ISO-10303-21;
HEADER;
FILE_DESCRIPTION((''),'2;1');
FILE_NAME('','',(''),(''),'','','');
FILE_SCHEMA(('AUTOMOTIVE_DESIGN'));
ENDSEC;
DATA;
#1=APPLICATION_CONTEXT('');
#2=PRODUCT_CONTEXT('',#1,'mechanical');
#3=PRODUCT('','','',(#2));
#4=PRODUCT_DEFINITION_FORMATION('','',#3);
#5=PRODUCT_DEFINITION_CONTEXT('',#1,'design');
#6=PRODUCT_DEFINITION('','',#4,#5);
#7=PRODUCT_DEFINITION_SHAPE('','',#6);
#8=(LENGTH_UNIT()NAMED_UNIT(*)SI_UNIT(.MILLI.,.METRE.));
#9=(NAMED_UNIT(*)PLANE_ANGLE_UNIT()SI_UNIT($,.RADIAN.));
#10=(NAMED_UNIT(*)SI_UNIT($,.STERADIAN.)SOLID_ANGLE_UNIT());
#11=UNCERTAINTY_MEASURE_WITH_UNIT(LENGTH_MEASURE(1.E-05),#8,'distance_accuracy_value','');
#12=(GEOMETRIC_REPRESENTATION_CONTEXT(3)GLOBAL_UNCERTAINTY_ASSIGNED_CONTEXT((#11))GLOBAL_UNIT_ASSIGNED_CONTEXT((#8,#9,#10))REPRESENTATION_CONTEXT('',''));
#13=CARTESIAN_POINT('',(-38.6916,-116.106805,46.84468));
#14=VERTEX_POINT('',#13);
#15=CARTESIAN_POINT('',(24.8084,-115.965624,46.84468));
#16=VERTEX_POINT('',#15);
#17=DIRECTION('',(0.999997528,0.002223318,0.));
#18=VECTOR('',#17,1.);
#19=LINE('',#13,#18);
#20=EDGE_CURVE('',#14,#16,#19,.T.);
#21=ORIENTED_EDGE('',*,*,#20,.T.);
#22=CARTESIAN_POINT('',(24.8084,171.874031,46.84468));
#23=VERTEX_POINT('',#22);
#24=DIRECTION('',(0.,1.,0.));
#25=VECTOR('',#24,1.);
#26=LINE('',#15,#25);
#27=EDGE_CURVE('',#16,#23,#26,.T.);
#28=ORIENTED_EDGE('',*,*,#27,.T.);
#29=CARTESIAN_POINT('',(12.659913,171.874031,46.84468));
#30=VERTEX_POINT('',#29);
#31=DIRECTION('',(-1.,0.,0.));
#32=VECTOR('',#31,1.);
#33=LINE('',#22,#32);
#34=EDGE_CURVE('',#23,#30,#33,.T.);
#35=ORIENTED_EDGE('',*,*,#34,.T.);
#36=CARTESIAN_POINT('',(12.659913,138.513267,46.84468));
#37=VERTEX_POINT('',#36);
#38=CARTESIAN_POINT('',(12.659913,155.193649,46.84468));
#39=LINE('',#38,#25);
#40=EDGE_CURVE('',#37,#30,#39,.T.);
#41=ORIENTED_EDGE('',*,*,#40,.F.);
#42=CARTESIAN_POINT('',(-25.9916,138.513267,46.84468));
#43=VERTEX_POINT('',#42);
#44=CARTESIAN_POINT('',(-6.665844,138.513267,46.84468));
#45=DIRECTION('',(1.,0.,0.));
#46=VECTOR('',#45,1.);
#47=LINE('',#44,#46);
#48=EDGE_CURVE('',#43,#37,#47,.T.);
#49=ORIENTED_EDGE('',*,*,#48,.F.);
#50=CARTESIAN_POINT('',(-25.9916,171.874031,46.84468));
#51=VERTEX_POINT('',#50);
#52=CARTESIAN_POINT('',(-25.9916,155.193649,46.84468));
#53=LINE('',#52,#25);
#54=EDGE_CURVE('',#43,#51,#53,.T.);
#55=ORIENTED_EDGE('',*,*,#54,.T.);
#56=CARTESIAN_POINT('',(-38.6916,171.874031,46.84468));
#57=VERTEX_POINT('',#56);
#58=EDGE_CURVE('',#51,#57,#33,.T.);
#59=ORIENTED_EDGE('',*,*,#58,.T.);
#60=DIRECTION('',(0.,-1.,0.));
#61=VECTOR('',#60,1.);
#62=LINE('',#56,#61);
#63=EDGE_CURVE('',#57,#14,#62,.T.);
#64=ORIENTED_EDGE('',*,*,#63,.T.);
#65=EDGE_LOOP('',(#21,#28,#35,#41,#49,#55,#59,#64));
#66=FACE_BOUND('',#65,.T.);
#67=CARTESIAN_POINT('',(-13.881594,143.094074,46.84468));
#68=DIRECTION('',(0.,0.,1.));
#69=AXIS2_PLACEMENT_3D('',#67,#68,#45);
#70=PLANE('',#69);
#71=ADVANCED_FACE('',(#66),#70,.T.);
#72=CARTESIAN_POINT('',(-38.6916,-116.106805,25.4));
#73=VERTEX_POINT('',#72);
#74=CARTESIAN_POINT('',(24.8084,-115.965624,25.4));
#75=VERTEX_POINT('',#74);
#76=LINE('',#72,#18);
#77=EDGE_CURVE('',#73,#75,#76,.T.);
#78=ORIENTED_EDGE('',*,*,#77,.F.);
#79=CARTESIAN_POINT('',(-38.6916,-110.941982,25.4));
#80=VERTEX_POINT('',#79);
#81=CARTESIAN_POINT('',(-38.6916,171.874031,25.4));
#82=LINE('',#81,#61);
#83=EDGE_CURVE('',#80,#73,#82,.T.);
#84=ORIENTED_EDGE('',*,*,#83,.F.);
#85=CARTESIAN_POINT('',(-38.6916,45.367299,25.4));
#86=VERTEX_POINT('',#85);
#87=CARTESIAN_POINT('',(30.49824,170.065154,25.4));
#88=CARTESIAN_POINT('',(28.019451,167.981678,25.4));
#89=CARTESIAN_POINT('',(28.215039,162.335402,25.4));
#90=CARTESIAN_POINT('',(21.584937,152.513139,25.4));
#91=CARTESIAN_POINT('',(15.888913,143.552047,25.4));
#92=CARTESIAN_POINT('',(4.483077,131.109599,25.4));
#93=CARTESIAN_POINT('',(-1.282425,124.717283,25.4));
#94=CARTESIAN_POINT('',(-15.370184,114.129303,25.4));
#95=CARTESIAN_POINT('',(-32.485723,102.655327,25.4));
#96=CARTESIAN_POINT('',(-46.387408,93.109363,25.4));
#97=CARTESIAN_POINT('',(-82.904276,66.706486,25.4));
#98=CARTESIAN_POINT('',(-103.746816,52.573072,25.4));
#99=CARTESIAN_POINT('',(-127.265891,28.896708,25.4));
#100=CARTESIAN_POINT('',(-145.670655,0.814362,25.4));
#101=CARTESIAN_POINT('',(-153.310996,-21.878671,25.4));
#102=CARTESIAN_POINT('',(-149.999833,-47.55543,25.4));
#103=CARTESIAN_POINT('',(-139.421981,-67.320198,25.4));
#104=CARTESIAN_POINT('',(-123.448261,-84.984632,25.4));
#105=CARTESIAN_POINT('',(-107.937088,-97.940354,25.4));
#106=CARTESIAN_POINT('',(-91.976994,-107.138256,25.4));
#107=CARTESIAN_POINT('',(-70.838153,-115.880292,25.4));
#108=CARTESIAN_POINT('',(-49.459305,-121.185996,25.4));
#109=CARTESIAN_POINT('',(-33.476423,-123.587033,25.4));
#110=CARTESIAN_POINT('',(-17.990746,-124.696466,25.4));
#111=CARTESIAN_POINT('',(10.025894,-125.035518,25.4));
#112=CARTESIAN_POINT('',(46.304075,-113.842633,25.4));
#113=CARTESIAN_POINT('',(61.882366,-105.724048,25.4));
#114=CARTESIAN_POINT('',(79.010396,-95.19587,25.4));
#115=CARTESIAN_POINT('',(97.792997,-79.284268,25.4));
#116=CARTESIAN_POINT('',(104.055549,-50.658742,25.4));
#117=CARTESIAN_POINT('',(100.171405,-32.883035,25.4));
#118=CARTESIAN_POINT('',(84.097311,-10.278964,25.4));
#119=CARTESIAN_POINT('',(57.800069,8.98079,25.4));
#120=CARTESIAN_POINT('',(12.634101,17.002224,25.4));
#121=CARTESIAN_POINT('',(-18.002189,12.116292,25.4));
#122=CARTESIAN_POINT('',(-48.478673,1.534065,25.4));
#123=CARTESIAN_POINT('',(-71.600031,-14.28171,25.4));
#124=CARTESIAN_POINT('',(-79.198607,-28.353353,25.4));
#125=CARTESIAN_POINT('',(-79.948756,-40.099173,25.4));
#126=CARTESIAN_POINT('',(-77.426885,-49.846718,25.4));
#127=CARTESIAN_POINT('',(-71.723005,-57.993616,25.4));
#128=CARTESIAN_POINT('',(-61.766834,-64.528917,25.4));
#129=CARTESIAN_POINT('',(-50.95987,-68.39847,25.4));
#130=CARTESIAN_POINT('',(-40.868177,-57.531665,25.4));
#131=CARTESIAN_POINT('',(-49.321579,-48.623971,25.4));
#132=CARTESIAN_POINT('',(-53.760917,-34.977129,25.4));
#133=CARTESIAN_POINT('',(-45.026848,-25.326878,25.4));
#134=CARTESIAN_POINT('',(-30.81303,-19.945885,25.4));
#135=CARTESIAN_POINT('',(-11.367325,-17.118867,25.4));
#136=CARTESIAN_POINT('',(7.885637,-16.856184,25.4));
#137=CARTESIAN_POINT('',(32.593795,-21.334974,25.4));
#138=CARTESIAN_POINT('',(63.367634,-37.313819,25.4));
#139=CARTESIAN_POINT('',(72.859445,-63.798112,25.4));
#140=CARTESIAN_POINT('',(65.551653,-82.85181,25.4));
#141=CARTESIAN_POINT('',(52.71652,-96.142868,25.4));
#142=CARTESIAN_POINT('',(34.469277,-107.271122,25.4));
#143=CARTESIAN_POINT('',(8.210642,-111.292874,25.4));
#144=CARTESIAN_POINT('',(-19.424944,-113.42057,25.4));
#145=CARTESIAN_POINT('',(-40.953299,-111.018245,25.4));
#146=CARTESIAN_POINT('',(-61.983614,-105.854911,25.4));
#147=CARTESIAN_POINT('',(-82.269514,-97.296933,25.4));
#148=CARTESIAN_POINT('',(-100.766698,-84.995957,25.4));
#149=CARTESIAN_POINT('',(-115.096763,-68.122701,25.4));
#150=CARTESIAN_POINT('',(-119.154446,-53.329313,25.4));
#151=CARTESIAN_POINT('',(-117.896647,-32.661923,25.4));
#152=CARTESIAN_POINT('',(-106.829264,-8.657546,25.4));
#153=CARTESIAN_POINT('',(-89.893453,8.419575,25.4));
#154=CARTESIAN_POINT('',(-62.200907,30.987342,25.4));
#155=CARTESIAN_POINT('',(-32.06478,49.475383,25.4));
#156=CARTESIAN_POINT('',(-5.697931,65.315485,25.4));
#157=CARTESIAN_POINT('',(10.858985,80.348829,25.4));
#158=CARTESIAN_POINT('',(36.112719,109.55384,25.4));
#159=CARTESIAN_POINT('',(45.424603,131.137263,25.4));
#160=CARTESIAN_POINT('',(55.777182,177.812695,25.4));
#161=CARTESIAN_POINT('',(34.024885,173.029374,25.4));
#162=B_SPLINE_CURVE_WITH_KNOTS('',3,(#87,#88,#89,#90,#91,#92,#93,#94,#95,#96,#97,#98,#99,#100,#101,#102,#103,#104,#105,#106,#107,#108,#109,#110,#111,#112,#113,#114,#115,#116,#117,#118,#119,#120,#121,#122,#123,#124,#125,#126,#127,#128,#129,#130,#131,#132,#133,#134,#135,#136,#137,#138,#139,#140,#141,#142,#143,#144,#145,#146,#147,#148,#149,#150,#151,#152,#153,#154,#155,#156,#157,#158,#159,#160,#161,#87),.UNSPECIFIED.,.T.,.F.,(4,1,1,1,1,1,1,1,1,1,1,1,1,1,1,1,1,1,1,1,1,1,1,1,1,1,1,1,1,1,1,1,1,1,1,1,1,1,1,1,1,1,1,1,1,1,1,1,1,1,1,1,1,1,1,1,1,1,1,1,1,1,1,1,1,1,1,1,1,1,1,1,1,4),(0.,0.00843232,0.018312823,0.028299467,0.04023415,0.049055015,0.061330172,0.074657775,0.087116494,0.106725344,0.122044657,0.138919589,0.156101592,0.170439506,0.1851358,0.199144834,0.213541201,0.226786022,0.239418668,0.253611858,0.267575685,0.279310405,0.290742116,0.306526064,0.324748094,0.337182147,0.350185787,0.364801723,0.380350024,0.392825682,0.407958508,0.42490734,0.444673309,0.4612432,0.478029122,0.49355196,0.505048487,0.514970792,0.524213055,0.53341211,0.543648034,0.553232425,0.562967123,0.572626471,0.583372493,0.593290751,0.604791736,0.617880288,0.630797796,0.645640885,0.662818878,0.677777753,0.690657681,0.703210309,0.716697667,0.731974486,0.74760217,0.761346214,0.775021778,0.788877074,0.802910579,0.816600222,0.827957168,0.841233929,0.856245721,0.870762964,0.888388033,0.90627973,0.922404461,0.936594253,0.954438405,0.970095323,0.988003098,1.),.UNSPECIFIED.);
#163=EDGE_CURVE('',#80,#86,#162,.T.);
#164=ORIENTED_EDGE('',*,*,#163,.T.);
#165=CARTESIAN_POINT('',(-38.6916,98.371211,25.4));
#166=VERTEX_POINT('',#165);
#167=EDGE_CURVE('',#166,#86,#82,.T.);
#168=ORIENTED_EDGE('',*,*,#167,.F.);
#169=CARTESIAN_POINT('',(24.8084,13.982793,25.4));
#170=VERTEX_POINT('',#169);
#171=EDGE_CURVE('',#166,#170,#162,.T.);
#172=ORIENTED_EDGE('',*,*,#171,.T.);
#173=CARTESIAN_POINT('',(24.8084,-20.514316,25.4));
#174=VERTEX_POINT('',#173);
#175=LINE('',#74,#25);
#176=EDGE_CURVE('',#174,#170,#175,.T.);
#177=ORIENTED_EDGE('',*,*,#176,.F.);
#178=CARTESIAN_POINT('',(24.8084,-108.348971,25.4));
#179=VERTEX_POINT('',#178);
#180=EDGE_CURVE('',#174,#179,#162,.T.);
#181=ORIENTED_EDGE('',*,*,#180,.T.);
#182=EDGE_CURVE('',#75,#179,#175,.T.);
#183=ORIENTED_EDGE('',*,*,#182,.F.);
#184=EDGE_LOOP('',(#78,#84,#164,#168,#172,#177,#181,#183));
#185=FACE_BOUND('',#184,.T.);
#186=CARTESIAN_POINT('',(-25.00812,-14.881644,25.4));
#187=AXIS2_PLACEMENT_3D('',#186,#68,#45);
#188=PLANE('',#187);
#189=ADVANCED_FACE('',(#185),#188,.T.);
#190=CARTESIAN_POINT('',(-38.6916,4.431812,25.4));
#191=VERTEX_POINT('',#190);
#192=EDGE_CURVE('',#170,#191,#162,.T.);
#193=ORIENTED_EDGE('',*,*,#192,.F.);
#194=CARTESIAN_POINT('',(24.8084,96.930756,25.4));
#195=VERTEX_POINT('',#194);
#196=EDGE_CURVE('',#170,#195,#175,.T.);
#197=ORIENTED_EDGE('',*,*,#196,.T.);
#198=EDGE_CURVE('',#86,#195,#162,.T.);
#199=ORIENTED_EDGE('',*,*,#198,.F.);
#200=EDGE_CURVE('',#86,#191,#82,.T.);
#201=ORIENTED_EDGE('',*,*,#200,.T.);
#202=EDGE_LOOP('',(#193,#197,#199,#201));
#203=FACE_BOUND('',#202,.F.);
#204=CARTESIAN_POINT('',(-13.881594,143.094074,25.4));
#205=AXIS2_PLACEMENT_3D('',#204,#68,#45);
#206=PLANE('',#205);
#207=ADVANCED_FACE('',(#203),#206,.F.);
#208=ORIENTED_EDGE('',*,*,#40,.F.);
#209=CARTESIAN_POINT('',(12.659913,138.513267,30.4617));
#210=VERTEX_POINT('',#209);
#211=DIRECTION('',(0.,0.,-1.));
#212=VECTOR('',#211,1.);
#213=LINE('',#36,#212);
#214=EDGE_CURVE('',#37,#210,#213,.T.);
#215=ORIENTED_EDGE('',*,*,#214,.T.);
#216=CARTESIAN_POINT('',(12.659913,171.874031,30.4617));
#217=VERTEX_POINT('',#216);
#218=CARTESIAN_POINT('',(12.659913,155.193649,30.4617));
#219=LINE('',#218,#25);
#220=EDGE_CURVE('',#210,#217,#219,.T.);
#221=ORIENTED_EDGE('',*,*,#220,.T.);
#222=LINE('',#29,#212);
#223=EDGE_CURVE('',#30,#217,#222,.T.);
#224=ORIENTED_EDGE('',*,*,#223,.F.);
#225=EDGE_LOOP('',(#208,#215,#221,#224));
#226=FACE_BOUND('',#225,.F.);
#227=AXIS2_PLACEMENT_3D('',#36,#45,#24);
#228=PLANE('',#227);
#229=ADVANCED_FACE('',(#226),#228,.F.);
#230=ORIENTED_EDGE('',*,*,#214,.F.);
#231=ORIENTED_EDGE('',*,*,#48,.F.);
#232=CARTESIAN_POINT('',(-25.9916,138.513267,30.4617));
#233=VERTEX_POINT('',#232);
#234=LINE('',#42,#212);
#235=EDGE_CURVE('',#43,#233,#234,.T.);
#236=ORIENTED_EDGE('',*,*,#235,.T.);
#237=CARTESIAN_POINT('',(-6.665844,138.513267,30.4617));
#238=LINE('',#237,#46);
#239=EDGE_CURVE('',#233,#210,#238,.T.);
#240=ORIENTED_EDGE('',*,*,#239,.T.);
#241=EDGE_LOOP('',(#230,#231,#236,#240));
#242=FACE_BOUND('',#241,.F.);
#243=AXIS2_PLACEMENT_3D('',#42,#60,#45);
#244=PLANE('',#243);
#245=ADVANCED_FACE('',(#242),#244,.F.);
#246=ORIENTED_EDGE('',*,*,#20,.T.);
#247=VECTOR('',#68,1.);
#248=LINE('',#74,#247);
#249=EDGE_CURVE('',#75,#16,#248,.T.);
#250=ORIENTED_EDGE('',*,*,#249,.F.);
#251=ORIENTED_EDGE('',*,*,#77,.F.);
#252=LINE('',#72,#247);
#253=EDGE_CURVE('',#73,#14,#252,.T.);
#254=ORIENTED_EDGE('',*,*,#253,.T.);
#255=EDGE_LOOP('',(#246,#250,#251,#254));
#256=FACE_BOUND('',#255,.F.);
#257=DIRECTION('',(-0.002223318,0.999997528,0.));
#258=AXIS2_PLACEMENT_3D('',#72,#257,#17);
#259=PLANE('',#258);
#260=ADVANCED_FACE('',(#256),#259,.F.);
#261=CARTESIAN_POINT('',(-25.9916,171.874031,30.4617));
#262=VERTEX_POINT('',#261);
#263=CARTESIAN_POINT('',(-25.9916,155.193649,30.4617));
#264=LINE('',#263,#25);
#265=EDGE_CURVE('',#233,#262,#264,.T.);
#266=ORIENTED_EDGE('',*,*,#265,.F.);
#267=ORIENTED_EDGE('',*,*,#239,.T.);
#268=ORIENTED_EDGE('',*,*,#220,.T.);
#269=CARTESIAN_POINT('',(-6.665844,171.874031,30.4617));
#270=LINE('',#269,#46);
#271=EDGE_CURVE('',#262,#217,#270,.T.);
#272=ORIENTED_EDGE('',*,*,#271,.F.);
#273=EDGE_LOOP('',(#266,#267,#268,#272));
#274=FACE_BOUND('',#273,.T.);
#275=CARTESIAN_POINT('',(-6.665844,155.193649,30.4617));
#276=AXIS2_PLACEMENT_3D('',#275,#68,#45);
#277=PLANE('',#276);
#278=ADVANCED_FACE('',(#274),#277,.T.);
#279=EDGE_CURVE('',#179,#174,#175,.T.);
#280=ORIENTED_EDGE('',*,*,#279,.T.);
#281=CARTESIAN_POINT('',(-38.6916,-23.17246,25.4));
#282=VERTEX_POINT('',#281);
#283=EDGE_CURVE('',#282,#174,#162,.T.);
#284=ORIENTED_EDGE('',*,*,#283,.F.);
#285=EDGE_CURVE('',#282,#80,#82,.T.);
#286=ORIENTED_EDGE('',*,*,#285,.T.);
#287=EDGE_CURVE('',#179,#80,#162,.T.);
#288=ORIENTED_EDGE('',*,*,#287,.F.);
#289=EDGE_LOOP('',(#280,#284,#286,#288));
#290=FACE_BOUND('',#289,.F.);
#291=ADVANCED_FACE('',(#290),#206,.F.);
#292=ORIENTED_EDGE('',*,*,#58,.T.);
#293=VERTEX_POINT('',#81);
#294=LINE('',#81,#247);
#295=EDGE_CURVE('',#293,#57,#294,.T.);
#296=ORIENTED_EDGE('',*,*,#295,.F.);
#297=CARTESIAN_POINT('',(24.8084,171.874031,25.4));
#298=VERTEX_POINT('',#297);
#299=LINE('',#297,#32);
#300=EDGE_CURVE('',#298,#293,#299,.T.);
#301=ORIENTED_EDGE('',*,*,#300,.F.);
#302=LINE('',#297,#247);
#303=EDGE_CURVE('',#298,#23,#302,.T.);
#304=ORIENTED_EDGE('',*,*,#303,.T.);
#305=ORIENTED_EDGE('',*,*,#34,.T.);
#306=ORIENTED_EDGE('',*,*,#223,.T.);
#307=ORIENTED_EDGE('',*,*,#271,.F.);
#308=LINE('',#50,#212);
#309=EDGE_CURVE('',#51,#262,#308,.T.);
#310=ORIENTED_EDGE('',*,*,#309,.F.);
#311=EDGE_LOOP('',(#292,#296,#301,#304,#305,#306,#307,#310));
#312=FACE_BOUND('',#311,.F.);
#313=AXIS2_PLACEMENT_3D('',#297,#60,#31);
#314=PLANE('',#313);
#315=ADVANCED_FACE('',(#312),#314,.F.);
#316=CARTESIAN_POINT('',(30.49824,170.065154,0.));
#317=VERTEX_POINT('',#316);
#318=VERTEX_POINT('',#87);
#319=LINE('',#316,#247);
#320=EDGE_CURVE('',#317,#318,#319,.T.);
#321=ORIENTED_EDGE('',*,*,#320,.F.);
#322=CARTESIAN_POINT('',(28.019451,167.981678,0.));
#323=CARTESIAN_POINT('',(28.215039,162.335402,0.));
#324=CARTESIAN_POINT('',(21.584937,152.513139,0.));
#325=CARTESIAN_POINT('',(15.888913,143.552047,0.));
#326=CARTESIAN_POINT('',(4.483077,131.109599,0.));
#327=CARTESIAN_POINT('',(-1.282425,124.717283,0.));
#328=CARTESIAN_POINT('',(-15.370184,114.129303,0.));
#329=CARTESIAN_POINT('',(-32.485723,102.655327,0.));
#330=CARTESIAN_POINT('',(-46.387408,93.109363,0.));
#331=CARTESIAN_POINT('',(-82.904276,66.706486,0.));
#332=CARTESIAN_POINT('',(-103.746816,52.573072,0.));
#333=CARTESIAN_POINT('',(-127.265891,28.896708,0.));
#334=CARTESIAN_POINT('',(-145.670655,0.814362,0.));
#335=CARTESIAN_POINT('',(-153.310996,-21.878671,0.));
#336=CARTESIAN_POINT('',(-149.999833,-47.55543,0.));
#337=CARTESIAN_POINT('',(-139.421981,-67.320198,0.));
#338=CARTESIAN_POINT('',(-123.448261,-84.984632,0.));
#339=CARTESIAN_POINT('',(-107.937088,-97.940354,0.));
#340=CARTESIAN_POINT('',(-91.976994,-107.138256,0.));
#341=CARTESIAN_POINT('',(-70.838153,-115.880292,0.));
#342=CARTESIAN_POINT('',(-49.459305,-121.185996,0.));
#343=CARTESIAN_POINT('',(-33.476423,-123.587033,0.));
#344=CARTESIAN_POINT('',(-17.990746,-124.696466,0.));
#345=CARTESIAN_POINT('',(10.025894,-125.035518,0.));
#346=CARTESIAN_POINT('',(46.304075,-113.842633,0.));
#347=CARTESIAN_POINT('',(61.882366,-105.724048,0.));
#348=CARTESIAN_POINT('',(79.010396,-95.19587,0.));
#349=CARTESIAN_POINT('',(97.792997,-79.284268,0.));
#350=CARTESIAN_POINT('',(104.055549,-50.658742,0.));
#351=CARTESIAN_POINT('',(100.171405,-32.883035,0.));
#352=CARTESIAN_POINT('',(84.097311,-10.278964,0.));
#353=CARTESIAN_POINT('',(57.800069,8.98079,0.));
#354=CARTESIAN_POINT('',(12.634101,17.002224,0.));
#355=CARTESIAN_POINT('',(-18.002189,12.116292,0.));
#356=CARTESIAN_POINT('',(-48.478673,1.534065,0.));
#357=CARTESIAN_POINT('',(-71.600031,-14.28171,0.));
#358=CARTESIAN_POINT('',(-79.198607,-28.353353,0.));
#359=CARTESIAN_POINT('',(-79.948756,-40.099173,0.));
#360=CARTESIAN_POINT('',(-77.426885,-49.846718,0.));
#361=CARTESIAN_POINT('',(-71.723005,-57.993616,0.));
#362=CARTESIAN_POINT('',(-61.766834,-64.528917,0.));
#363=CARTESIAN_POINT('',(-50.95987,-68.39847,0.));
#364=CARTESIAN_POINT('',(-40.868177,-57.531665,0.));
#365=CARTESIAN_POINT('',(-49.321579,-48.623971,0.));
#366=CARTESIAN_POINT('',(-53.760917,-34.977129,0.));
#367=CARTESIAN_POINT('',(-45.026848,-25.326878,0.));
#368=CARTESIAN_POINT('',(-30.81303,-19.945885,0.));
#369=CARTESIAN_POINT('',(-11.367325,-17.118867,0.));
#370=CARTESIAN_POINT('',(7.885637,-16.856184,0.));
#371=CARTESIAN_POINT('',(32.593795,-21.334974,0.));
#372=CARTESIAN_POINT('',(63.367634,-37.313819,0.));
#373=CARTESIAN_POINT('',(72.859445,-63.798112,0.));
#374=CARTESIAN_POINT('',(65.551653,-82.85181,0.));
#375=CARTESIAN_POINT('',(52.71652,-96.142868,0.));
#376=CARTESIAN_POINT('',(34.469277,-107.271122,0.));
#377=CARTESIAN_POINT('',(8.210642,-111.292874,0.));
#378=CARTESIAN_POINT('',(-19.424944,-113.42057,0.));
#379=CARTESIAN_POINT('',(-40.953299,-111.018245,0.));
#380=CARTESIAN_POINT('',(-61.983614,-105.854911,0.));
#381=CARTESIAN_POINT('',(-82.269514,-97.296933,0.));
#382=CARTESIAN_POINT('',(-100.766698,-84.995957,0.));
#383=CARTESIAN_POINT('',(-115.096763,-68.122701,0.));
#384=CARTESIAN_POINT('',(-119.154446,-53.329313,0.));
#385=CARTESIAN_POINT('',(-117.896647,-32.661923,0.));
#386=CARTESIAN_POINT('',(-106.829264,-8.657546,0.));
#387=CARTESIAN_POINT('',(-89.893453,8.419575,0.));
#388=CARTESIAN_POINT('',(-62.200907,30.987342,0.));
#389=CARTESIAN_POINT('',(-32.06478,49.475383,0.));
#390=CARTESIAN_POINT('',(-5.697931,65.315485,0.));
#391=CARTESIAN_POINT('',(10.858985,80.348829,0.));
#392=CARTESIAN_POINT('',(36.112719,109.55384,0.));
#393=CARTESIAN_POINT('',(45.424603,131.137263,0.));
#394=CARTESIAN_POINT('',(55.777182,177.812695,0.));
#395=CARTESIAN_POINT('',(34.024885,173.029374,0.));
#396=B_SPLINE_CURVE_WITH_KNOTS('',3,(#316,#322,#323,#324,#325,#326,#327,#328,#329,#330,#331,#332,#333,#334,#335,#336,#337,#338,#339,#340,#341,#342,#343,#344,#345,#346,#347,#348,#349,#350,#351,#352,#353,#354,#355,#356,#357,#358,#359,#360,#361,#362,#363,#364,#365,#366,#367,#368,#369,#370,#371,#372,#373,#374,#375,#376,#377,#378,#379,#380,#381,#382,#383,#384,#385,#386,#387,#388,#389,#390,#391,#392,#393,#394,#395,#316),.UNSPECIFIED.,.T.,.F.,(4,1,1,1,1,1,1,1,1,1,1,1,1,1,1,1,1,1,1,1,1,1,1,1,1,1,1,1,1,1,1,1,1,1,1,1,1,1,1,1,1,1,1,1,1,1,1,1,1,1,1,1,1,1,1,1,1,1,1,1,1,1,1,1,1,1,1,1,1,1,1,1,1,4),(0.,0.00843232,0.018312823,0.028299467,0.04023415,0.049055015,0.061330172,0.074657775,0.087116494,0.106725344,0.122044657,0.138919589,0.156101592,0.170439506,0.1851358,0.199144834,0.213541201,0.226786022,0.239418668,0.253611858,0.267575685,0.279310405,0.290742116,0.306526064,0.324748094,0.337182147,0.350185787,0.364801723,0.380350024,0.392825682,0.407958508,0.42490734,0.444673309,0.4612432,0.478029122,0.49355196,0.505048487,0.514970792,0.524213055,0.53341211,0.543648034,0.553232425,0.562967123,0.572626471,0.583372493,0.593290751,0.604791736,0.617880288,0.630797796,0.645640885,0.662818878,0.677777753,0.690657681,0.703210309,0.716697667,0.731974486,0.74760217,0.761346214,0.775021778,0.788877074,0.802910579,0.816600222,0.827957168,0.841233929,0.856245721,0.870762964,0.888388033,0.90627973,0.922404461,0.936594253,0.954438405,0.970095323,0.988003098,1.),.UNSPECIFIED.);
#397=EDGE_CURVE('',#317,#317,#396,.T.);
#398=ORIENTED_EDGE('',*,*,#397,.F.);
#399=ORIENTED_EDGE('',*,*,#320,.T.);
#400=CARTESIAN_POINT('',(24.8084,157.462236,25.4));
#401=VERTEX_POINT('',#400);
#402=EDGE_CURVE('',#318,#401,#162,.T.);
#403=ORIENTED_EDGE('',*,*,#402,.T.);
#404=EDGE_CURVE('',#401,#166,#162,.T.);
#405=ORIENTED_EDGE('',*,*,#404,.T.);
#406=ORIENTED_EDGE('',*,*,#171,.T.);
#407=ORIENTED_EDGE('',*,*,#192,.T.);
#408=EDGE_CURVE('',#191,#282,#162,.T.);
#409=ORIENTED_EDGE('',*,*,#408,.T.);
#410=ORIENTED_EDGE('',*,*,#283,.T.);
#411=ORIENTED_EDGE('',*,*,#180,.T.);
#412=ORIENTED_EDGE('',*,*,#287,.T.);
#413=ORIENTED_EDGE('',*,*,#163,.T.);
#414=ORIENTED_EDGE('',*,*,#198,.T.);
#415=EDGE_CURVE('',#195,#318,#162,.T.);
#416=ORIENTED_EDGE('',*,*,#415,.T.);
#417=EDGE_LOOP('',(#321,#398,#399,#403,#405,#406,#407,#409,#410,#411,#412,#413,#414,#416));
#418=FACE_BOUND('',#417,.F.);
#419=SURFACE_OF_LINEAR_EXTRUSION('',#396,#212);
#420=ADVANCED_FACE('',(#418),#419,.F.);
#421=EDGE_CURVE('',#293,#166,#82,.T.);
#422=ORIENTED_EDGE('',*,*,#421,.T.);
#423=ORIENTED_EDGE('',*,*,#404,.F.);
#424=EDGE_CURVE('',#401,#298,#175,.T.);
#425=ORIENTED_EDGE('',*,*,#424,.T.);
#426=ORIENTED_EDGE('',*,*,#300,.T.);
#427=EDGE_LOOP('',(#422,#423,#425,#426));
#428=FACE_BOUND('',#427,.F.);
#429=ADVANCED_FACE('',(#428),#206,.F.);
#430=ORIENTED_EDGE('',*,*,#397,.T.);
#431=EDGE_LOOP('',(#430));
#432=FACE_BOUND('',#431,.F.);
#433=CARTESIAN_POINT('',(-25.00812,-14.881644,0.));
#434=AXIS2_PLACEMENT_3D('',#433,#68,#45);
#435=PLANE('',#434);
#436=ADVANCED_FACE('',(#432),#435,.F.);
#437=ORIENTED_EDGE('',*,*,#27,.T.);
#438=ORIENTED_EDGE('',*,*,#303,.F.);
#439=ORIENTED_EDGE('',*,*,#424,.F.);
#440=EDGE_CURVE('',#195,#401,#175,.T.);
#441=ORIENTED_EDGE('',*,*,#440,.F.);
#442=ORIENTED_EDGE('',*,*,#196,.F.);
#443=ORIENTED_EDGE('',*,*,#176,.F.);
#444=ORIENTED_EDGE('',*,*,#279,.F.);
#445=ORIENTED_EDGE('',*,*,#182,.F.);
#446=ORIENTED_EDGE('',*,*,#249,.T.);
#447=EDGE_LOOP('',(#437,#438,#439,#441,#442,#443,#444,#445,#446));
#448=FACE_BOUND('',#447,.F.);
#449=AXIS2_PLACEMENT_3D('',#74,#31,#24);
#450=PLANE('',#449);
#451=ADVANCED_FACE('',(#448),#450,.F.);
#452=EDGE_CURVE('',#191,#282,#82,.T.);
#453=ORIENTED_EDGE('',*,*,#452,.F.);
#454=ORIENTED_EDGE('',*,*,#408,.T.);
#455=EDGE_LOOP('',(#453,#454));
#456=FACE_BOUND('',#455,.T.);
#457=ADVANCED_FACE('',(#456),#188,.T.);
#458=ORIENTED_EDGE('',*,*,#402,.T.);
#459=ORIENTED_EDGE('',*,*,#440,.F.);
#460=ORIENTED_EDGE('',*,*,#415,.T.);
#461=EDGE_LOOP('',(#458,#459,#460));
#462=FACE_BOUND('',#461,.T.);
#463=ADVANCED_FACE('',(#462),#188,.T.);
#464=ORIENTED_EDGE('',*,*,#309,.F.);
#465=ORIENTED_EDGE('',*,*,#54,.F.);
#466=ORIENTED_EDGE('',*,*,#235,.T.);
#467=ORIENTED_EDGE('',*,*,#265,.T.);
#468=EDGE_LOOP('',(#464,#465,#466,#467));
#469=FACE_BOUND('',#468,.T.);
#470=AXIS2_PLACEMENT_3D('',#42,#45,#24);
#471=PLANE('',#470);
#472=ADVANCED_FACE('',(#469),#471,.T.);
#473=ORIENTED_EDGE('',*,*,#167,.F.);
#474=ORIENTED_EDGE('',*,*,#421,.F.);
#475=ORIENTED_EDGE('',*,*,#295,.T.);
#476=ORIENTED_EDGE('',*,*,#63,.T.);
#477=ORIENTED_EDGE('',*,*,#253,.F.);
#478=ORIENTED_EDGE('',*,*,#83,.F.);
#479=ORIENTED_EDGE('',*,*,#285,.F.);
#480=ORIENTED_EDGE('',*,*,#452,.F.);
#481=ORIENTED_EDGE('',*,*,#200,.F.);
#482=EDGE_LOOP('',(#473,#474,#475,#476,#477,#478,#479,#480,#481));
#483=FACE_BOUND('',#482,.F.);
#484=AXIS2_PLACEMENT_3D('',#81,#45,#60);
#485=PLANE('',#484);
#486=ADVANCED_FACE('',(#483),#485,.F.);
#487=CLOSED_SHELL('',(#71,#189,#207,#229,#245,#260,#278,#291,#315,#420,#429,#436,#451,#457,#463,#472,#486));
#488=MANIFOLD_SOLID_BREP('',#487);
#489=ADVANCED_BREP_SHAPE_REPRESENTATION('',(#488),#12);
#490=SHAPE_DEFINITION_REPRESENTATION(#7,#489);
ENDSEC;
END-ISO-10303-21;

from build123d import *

# Parameters (mm, degrees)
F1_DEPTH = 25.4
F3_DEPTH = 21.44468
F4_W     = 38.6515130575
F4_H     = 33.3607643843
F5_DEPTH = 16.38298


with BuildPart() as f1:
    # F0 (on Top) → F1 (new body)
    with BuildSketch(Plane.XY):
        with BuildLine():
            add(Edge.make_bspline(
                [(30.4982404418, 170.0651537546), (28.019450623, 167.9816778027), (28.2150385436, 162.3354020497), (21.5849368927, 152.5131386388), (15.8889125429, 143.5520474691), (4.4830765485, 131.1095994753), (-1.2824248178, 124.7172833852), (-15.3701838228, 114.1293027053), (-32.4857231404, 102.6553265961), (-46.3874079003, 93.1093634823), (-82.9042763111, 66.7064860205), (-103.7468156143, 52.5730716915), (-127.2658912538, 28.8967080922), (-145.6706554017, 0.8143622386), (-153.3109955554, -21.8786713995), (-149.9998330954, -47.5554295351), (-139.4219810968, -67.3201982832), (-123.448261415, -84.9846323727), (-107.9370877463, -97.940354481), (-91.97699406, -107.1382563074), (-70.8381525314, -115.880292011), (-49.4593047866, -121.1859957964), (-33.4764226398, -123.5870328276), (-17.9907462507, -124.6964662427), (10.025893691, -125.0355182278), (46.3040748727, -113.842633069), (61.8823661329, -105.7240478871), (79.0103958506, -95.1958704265), (97.792997004, -79.2842684111), (104.0555486668, -50.6587416343), (100.1714054806, -32.8830354447), (84.0973112104, -10.2789637028), (57.8000688567, 8.980789715), (12.6341010117, 17.0022237914), (-18.002189329, 12.1162917762), (-48.4786731322, 1.5340645935), (-71.6000314389, -14.2817095442), (-79.1986067104, -28.3533530765), (-79.9487555823, -40.0991728086), (-77.4268850182, -49.8467184038), (-71.7230047564, -57.9936163126), (-61.7668340784, -64.5289167323), (-50.9598697367, -68.39847001), (-40.868176554, -57.5316652753), (-49.3215788352, -48.6239708614), (-53.7609172396, -34.9771286784), (-45.0268475498, -25.3268781823), (-30.8130303404, -19.9458852794), (-11.3673254888, -17.118866567), (7.8856368306, -16.8561836827), (32.5937954364, -21.334974187), (63.3676340693, -37.3138191869), (72.8594452799, -63.7981123597), (65.5516533025, -82.8518099697), (52.7165195248, -96.1428684624), (34.4692772486, -107.2711220433), (8.2106421645, -111.2928741623), (-19.4249441853, -113.4205695561), (-40.953298769, -111.0182446494), (-61.983614024, -105.8549113228), (-82.2695144577, -97.2969334096), (-100.7666984362, -84.9959574626), (-115.0967626334, -68.1227006668), (-119.1544456271, -53.3293128138), (-117.8966470561, -32.6619232986), (-106.8292637242, -8.6575459049), (-89.8934530781, 8.4195750961), (-62.2009065361, 30.9873416427), (-32.064779977, 49.4753832405), (-5.6979305476, 65.3154845194), (10.8589853916, 80.3488288892), (36.112718611, 109.5538401868), (45.424602711, 131.1372626277), (55.7771816455, 177.8126945717), (34.0248854458, 173.0293744405), (30.4982404418, 170.0651537546)],
                knots=[0, 0, 0, 0, 0.0084323199, 0.0183128232, 0.028299467, 0.0402341502, 0.0490550147, 0.0613301722, 0.0746577754, 0.0871164943, 0.1067253436, 0.1220446574, 0.1389195892, 0.1561015925, 0.1704395058, 0.1851358001, 0.1991448338, 0.213541201, 0.2267860221, 0.2394186676, 0.2536118583, 0.2675756847, 0.2793104053, 0.2907421161, 0.3065260638, 0.3247480938, 0.3371821466, 0.3501857873, 0.3648017226, 0.3803500235, 0.3928256818, 0.4079585079, 0.4249073404, 0.4446733091, 0.4612431996, 0.4780291219, 0.4935519604, 0.5050484867, 0.5149707915, 0.5242130549, 0.5334121098, 0.5436480337, 0.5532324247, 0.5629671228, 0.5726264709, 0.5833724928, 0.5932907512, 0.6047917364, 0.6178802881, 0.6307977962, 0.6456408847, 0.662818878, 0.6777777528, 0.6906576809, 0.7032103088, 0.7166976672, 0.7319744861, 0.74760217, 0.7613462139, 0.7750217784, 0.7888770744, 0.8029105786, 0.8166002221, 0.8279571678, 0.8412339287, 0.8562457207, 0.8707629639, 0.8883880328, 0.90627973, 0.9224044615, 0.9365942531, 0.9544384046, 0.9700953229, 0.9880030979, 1, 1, 1, 1], degree=3))
        make_face()
    extrude(amount=F1_DEPTH)

    # F2 (on face) → F3 (join)
    with BuildSketch(Plane.XY.offset(25.4)):
        with BuildLine():
            Line((-38.6916001286, 171.8740314245), (-38.6916001286, 98.371210819))
            add(Edge.make_bspline(
                [(24.8083998714, 157.4622361328), (23.884128344, 155.8970621287), (20.6560499324, 151.0517964418), (15.8889125429, 143.5520474691), (4.4830765485, 131.1095994753), (-1.2824248178, 124.7172833852), (-15.3701838228, 114.1293027053), (-29.7022847251, 104.5212979387), (-36.3782265467, 99.9715490327), (-38.6916001286, 98.371210819)],
                knots=[0.0136184468, 0.0136184468, 0.0136184468, 0.0136184468, 0.0183128232, 0.028299467, 0.0402341502, 0.0490550147, 0.0613301722, 0.0746577754, 0.0809266932, 0.0809266932, 0.0809266932, 0.0809266932], degree=3))
            Line((24.8083998714, 157.4622361328), (24.8083998714, 171.8740314245))
            Line((24.8083998714, 171.8740314245), (-38.6916001286, 171.8740314245))
        make_face()
        with BuildLine():
            add(Edge.make_bspline(
                [(24.8083998715, 13.9827926404), (20.6882158801, 14.4749125077), (4.3762413717, 15.6852451252), (-14.8151712631, 12.6245632878), (-31.9515926927, 7.1735674976), (-38.6916001285, 4.4318122733)],
                knots=[0.4392260523, 0.4392260523, 0.4392260523, 0.4392260523, 0.4446733091, 0.4612431996, 0.4725029934, 0.4725029934, 0.4725029934, 0.4725029934], degree=3))
            Line((24.8083998714, 13.9827926404), (24.8083998714, 96.9307559639))
            add(Edge.make_bspline(
                [(-38.6916001286, 45.3672994902), (-36.2396246925, 46.8763237746), (-24.6251638829, 53.9447936918), (-5.6979305476, 65.3154845194), (8.2702525106, 77.9983118591), (20.1761555165, 91.2749942318), (24.8083998714, 96.9307559639)],
                knots=[0.9019898009, 0.9019898009, 0.9019898009, 0.9019898009, 0.90627973, 0.9224044615, 0.9365942531, 0.946908624, 0.946908624, 0.946908624, 0.946908624], degree=3))
            Line((-38.6916001286, 45.3672994902), (-38.6916001286, 4.4318122733))
        make_face()
        with BuildLine():
            Line((22.5164723147, -12.8357740365), (24.8083998714, -12.8357740365))
            Line((24.8083998714, -12.8357740365), (24.8083998714, 13.9827926404))
            add(Edge.make_bspline(
                [(24.8083998715, 13.9827926404), (20.6882158801, 14.4749125077), (4.3762413717, 15.6852451252), (-14.8151712631, 12.6245632878), (-31.9515926927, 7.1735674976), (-38.6916001285, 4.4318122733)],
                knots=[0.4392260523, 0.4392260523, 0.4392260523, 0.4392260523, 0.4446733091, 0.4612431996, 0.4725029934, 0.4725029934, 0.4725029934, 0.4725029934], degree=3))
            Line((-38.6916001286, 4.4318122733), (-38.6916001286, -12.8357740365))
            Line((-38.6916001286, -12.8357740365), (22.5164723147, -12.8357740365))
        make_face()
        with BuildLine():
            Line((24.8083998714, -20.5143163165), (24.8083998714, -12.8357740365))
            Line((24.8083998714, -12.8357740365), (22.5164723147, -12.8357740365))
            Line((22.5164723147, -12.8357740365), (-38.6916001286, -12.8357740365))
            Line((-38.6916001286, -12.8357740365), (-38.6916001286, -23.1724602651))
            add(Edge.make_bspline(
                [(-38.6916001286, -23.1724602651), (-36.2759124032, -22.16294957), (-27.959394229, -19.5310233473), (-11.3673254888, -17.118866567), (5.9459679601, -16.8826480681), (18.6714029765, -18.86734104), (24.8083998715, -20.5143163165)],
                knots=[0.5987948694, 0.5987948694, 0.5987948694, 0.5987948694, 0.6047917364, 0.6178802881, 0.6307977962, 0.6415254753, 0.6415254753, 0.6415254753, 0.6415254753], degree=3))
        make_face()
        with BuildLine():
            Line((24.8083998714, -115.965623603), (24.8083998714, -108.348970924))
            add(Edge.make_bspline(
                [(24.8083998715, -108.348970924), (19.5112320914, -109.5094456931), (4.5747709158, -111.5728040472), (-18.4595843419, -113.3462453979), (-32.5441840506, -111.9469415031), (-38.6916001286, -110.9419820291)],
                knots=[0.7225718457, 0.7225718457, 0.7225718457, 0.7225718457, 0.7319744861, 0.74760217, 0.7597865613, 0.7597865613, 0.7597865613, 0.7597865613], degree=3))
            Line((-38.6916001286, -110.9419820291), (-38.6916001286, -116.1068046547))
            Line((-38.6916001286, -116.1068046547), (24.8083998714, -115.965623603))
        make_face()
        with BuildLine():
            Line((24.8083998714, -108.348970924), (24.8083998714, -20.5143163165))
            add(Edge.make_bspline(
                [(-38.6916001286, -23.1724602651), (-36.2759124032, -22.16294957), (-27.959394229, -19.5310233473), (-11.3673254888, -17.118866567), (5.9459679601, -16.8826480681), (18.6714029765, -18.86734104), (24.8083998715, -20.5143163165)],
                knots=[0.5987948694, 0.5987948694, 0.5987948694, 0.5987948694, 0.6047917364, 0.6178802881, 0.6307977962, 0.6415254753, 0.6415254753, 0.6415254753, 0.6415254753], degree=3))
            Line((-38.6916001286, -23.1724602651), (-38.6916001286, -110.9419820291))
            add(Edge.make_bspline(
                [(24.8083998715, -108.348970924), (19.5112320914, -109.5094456931), (4.5747709158, -111.5728040472), (-18.4595843419, -113.3462453979), (-32.5441840506, -111.9469415031), (-38.6916001286, -110.9419820291)],
                knots=[0.7225718457, 0.7225718457, 0.7225718457, 0.7225718457, 0.7319744861, 0.74760217, 0.7597865613, 0.7597865613, 0.7597865613, 0.7597865613], degree=3))
        make_face()
        with BuildLine():
            add(Edge.make_bspline(
                [(-38.6916001286, 45.3672994902), (-36.2396246925, 46.8763237746), (-24.6251638829, 53.9447936918), (-5.6979305476, 65.3154845194), (8.2702525106, 77.9983118591), (20.1761555165, 91.2749942318), (24.8083998714, 96.9307559639)],
                knots=[0.9019898009, 0.9019898009, 0.9019898009, 0.9019898009, 0.90627973, 0.9224044615, 0.9365942531, 0.946908624, 0.946908624, 0.946908624, 0.946908624], degree=3))
            Line((24.8083998714, 96.9307559639), (24.8083998714, 157.4622361328))
            add(Edge.make_bspline(
                [(24.8083998714, 157.4622361328), (23.884128344, 155.8970621287), (20.6560499324, 151.0517964418), (15.8889125429, 143.5520474691), (4.4830765485, 131.1095994753), (-1.2824248178, 124.7172833852), (-15.3701838228, 114.1293027053), (-29.7022847251, 104.5212979387), (-36.3782265467, 99.9715490327), (-38.6916001286, 98.371210819)],
                knots=[0.0136184468, 0.0136184468, 0.0136184468, 0.0136184468, 0.0183128232, 0.028299467, 0.0402341502, 0.0490550147, 0.0613301722, 0.0746577754, 0.0809266932, 0.0809266932, 0.0809266932, 0.0809266932], degree=3))
            Line((-38.6916001286, 98.371210819), (-38.6916001286, 45.3672994902))
        make_face()
    extrude(amount=F3_DEPTH)

    # F4 (on face) → F5 (cut)
    with BuildSketch(Plane.XY.offset(46.84468)):
        with Locations((-6.6658435998, 155.1936492324)):
            Rectangle(F4_W, F4_H)
    extrude(amount=-F5_DEPTH, mode=Mode.SUBTRACT)


solid = f1.part
